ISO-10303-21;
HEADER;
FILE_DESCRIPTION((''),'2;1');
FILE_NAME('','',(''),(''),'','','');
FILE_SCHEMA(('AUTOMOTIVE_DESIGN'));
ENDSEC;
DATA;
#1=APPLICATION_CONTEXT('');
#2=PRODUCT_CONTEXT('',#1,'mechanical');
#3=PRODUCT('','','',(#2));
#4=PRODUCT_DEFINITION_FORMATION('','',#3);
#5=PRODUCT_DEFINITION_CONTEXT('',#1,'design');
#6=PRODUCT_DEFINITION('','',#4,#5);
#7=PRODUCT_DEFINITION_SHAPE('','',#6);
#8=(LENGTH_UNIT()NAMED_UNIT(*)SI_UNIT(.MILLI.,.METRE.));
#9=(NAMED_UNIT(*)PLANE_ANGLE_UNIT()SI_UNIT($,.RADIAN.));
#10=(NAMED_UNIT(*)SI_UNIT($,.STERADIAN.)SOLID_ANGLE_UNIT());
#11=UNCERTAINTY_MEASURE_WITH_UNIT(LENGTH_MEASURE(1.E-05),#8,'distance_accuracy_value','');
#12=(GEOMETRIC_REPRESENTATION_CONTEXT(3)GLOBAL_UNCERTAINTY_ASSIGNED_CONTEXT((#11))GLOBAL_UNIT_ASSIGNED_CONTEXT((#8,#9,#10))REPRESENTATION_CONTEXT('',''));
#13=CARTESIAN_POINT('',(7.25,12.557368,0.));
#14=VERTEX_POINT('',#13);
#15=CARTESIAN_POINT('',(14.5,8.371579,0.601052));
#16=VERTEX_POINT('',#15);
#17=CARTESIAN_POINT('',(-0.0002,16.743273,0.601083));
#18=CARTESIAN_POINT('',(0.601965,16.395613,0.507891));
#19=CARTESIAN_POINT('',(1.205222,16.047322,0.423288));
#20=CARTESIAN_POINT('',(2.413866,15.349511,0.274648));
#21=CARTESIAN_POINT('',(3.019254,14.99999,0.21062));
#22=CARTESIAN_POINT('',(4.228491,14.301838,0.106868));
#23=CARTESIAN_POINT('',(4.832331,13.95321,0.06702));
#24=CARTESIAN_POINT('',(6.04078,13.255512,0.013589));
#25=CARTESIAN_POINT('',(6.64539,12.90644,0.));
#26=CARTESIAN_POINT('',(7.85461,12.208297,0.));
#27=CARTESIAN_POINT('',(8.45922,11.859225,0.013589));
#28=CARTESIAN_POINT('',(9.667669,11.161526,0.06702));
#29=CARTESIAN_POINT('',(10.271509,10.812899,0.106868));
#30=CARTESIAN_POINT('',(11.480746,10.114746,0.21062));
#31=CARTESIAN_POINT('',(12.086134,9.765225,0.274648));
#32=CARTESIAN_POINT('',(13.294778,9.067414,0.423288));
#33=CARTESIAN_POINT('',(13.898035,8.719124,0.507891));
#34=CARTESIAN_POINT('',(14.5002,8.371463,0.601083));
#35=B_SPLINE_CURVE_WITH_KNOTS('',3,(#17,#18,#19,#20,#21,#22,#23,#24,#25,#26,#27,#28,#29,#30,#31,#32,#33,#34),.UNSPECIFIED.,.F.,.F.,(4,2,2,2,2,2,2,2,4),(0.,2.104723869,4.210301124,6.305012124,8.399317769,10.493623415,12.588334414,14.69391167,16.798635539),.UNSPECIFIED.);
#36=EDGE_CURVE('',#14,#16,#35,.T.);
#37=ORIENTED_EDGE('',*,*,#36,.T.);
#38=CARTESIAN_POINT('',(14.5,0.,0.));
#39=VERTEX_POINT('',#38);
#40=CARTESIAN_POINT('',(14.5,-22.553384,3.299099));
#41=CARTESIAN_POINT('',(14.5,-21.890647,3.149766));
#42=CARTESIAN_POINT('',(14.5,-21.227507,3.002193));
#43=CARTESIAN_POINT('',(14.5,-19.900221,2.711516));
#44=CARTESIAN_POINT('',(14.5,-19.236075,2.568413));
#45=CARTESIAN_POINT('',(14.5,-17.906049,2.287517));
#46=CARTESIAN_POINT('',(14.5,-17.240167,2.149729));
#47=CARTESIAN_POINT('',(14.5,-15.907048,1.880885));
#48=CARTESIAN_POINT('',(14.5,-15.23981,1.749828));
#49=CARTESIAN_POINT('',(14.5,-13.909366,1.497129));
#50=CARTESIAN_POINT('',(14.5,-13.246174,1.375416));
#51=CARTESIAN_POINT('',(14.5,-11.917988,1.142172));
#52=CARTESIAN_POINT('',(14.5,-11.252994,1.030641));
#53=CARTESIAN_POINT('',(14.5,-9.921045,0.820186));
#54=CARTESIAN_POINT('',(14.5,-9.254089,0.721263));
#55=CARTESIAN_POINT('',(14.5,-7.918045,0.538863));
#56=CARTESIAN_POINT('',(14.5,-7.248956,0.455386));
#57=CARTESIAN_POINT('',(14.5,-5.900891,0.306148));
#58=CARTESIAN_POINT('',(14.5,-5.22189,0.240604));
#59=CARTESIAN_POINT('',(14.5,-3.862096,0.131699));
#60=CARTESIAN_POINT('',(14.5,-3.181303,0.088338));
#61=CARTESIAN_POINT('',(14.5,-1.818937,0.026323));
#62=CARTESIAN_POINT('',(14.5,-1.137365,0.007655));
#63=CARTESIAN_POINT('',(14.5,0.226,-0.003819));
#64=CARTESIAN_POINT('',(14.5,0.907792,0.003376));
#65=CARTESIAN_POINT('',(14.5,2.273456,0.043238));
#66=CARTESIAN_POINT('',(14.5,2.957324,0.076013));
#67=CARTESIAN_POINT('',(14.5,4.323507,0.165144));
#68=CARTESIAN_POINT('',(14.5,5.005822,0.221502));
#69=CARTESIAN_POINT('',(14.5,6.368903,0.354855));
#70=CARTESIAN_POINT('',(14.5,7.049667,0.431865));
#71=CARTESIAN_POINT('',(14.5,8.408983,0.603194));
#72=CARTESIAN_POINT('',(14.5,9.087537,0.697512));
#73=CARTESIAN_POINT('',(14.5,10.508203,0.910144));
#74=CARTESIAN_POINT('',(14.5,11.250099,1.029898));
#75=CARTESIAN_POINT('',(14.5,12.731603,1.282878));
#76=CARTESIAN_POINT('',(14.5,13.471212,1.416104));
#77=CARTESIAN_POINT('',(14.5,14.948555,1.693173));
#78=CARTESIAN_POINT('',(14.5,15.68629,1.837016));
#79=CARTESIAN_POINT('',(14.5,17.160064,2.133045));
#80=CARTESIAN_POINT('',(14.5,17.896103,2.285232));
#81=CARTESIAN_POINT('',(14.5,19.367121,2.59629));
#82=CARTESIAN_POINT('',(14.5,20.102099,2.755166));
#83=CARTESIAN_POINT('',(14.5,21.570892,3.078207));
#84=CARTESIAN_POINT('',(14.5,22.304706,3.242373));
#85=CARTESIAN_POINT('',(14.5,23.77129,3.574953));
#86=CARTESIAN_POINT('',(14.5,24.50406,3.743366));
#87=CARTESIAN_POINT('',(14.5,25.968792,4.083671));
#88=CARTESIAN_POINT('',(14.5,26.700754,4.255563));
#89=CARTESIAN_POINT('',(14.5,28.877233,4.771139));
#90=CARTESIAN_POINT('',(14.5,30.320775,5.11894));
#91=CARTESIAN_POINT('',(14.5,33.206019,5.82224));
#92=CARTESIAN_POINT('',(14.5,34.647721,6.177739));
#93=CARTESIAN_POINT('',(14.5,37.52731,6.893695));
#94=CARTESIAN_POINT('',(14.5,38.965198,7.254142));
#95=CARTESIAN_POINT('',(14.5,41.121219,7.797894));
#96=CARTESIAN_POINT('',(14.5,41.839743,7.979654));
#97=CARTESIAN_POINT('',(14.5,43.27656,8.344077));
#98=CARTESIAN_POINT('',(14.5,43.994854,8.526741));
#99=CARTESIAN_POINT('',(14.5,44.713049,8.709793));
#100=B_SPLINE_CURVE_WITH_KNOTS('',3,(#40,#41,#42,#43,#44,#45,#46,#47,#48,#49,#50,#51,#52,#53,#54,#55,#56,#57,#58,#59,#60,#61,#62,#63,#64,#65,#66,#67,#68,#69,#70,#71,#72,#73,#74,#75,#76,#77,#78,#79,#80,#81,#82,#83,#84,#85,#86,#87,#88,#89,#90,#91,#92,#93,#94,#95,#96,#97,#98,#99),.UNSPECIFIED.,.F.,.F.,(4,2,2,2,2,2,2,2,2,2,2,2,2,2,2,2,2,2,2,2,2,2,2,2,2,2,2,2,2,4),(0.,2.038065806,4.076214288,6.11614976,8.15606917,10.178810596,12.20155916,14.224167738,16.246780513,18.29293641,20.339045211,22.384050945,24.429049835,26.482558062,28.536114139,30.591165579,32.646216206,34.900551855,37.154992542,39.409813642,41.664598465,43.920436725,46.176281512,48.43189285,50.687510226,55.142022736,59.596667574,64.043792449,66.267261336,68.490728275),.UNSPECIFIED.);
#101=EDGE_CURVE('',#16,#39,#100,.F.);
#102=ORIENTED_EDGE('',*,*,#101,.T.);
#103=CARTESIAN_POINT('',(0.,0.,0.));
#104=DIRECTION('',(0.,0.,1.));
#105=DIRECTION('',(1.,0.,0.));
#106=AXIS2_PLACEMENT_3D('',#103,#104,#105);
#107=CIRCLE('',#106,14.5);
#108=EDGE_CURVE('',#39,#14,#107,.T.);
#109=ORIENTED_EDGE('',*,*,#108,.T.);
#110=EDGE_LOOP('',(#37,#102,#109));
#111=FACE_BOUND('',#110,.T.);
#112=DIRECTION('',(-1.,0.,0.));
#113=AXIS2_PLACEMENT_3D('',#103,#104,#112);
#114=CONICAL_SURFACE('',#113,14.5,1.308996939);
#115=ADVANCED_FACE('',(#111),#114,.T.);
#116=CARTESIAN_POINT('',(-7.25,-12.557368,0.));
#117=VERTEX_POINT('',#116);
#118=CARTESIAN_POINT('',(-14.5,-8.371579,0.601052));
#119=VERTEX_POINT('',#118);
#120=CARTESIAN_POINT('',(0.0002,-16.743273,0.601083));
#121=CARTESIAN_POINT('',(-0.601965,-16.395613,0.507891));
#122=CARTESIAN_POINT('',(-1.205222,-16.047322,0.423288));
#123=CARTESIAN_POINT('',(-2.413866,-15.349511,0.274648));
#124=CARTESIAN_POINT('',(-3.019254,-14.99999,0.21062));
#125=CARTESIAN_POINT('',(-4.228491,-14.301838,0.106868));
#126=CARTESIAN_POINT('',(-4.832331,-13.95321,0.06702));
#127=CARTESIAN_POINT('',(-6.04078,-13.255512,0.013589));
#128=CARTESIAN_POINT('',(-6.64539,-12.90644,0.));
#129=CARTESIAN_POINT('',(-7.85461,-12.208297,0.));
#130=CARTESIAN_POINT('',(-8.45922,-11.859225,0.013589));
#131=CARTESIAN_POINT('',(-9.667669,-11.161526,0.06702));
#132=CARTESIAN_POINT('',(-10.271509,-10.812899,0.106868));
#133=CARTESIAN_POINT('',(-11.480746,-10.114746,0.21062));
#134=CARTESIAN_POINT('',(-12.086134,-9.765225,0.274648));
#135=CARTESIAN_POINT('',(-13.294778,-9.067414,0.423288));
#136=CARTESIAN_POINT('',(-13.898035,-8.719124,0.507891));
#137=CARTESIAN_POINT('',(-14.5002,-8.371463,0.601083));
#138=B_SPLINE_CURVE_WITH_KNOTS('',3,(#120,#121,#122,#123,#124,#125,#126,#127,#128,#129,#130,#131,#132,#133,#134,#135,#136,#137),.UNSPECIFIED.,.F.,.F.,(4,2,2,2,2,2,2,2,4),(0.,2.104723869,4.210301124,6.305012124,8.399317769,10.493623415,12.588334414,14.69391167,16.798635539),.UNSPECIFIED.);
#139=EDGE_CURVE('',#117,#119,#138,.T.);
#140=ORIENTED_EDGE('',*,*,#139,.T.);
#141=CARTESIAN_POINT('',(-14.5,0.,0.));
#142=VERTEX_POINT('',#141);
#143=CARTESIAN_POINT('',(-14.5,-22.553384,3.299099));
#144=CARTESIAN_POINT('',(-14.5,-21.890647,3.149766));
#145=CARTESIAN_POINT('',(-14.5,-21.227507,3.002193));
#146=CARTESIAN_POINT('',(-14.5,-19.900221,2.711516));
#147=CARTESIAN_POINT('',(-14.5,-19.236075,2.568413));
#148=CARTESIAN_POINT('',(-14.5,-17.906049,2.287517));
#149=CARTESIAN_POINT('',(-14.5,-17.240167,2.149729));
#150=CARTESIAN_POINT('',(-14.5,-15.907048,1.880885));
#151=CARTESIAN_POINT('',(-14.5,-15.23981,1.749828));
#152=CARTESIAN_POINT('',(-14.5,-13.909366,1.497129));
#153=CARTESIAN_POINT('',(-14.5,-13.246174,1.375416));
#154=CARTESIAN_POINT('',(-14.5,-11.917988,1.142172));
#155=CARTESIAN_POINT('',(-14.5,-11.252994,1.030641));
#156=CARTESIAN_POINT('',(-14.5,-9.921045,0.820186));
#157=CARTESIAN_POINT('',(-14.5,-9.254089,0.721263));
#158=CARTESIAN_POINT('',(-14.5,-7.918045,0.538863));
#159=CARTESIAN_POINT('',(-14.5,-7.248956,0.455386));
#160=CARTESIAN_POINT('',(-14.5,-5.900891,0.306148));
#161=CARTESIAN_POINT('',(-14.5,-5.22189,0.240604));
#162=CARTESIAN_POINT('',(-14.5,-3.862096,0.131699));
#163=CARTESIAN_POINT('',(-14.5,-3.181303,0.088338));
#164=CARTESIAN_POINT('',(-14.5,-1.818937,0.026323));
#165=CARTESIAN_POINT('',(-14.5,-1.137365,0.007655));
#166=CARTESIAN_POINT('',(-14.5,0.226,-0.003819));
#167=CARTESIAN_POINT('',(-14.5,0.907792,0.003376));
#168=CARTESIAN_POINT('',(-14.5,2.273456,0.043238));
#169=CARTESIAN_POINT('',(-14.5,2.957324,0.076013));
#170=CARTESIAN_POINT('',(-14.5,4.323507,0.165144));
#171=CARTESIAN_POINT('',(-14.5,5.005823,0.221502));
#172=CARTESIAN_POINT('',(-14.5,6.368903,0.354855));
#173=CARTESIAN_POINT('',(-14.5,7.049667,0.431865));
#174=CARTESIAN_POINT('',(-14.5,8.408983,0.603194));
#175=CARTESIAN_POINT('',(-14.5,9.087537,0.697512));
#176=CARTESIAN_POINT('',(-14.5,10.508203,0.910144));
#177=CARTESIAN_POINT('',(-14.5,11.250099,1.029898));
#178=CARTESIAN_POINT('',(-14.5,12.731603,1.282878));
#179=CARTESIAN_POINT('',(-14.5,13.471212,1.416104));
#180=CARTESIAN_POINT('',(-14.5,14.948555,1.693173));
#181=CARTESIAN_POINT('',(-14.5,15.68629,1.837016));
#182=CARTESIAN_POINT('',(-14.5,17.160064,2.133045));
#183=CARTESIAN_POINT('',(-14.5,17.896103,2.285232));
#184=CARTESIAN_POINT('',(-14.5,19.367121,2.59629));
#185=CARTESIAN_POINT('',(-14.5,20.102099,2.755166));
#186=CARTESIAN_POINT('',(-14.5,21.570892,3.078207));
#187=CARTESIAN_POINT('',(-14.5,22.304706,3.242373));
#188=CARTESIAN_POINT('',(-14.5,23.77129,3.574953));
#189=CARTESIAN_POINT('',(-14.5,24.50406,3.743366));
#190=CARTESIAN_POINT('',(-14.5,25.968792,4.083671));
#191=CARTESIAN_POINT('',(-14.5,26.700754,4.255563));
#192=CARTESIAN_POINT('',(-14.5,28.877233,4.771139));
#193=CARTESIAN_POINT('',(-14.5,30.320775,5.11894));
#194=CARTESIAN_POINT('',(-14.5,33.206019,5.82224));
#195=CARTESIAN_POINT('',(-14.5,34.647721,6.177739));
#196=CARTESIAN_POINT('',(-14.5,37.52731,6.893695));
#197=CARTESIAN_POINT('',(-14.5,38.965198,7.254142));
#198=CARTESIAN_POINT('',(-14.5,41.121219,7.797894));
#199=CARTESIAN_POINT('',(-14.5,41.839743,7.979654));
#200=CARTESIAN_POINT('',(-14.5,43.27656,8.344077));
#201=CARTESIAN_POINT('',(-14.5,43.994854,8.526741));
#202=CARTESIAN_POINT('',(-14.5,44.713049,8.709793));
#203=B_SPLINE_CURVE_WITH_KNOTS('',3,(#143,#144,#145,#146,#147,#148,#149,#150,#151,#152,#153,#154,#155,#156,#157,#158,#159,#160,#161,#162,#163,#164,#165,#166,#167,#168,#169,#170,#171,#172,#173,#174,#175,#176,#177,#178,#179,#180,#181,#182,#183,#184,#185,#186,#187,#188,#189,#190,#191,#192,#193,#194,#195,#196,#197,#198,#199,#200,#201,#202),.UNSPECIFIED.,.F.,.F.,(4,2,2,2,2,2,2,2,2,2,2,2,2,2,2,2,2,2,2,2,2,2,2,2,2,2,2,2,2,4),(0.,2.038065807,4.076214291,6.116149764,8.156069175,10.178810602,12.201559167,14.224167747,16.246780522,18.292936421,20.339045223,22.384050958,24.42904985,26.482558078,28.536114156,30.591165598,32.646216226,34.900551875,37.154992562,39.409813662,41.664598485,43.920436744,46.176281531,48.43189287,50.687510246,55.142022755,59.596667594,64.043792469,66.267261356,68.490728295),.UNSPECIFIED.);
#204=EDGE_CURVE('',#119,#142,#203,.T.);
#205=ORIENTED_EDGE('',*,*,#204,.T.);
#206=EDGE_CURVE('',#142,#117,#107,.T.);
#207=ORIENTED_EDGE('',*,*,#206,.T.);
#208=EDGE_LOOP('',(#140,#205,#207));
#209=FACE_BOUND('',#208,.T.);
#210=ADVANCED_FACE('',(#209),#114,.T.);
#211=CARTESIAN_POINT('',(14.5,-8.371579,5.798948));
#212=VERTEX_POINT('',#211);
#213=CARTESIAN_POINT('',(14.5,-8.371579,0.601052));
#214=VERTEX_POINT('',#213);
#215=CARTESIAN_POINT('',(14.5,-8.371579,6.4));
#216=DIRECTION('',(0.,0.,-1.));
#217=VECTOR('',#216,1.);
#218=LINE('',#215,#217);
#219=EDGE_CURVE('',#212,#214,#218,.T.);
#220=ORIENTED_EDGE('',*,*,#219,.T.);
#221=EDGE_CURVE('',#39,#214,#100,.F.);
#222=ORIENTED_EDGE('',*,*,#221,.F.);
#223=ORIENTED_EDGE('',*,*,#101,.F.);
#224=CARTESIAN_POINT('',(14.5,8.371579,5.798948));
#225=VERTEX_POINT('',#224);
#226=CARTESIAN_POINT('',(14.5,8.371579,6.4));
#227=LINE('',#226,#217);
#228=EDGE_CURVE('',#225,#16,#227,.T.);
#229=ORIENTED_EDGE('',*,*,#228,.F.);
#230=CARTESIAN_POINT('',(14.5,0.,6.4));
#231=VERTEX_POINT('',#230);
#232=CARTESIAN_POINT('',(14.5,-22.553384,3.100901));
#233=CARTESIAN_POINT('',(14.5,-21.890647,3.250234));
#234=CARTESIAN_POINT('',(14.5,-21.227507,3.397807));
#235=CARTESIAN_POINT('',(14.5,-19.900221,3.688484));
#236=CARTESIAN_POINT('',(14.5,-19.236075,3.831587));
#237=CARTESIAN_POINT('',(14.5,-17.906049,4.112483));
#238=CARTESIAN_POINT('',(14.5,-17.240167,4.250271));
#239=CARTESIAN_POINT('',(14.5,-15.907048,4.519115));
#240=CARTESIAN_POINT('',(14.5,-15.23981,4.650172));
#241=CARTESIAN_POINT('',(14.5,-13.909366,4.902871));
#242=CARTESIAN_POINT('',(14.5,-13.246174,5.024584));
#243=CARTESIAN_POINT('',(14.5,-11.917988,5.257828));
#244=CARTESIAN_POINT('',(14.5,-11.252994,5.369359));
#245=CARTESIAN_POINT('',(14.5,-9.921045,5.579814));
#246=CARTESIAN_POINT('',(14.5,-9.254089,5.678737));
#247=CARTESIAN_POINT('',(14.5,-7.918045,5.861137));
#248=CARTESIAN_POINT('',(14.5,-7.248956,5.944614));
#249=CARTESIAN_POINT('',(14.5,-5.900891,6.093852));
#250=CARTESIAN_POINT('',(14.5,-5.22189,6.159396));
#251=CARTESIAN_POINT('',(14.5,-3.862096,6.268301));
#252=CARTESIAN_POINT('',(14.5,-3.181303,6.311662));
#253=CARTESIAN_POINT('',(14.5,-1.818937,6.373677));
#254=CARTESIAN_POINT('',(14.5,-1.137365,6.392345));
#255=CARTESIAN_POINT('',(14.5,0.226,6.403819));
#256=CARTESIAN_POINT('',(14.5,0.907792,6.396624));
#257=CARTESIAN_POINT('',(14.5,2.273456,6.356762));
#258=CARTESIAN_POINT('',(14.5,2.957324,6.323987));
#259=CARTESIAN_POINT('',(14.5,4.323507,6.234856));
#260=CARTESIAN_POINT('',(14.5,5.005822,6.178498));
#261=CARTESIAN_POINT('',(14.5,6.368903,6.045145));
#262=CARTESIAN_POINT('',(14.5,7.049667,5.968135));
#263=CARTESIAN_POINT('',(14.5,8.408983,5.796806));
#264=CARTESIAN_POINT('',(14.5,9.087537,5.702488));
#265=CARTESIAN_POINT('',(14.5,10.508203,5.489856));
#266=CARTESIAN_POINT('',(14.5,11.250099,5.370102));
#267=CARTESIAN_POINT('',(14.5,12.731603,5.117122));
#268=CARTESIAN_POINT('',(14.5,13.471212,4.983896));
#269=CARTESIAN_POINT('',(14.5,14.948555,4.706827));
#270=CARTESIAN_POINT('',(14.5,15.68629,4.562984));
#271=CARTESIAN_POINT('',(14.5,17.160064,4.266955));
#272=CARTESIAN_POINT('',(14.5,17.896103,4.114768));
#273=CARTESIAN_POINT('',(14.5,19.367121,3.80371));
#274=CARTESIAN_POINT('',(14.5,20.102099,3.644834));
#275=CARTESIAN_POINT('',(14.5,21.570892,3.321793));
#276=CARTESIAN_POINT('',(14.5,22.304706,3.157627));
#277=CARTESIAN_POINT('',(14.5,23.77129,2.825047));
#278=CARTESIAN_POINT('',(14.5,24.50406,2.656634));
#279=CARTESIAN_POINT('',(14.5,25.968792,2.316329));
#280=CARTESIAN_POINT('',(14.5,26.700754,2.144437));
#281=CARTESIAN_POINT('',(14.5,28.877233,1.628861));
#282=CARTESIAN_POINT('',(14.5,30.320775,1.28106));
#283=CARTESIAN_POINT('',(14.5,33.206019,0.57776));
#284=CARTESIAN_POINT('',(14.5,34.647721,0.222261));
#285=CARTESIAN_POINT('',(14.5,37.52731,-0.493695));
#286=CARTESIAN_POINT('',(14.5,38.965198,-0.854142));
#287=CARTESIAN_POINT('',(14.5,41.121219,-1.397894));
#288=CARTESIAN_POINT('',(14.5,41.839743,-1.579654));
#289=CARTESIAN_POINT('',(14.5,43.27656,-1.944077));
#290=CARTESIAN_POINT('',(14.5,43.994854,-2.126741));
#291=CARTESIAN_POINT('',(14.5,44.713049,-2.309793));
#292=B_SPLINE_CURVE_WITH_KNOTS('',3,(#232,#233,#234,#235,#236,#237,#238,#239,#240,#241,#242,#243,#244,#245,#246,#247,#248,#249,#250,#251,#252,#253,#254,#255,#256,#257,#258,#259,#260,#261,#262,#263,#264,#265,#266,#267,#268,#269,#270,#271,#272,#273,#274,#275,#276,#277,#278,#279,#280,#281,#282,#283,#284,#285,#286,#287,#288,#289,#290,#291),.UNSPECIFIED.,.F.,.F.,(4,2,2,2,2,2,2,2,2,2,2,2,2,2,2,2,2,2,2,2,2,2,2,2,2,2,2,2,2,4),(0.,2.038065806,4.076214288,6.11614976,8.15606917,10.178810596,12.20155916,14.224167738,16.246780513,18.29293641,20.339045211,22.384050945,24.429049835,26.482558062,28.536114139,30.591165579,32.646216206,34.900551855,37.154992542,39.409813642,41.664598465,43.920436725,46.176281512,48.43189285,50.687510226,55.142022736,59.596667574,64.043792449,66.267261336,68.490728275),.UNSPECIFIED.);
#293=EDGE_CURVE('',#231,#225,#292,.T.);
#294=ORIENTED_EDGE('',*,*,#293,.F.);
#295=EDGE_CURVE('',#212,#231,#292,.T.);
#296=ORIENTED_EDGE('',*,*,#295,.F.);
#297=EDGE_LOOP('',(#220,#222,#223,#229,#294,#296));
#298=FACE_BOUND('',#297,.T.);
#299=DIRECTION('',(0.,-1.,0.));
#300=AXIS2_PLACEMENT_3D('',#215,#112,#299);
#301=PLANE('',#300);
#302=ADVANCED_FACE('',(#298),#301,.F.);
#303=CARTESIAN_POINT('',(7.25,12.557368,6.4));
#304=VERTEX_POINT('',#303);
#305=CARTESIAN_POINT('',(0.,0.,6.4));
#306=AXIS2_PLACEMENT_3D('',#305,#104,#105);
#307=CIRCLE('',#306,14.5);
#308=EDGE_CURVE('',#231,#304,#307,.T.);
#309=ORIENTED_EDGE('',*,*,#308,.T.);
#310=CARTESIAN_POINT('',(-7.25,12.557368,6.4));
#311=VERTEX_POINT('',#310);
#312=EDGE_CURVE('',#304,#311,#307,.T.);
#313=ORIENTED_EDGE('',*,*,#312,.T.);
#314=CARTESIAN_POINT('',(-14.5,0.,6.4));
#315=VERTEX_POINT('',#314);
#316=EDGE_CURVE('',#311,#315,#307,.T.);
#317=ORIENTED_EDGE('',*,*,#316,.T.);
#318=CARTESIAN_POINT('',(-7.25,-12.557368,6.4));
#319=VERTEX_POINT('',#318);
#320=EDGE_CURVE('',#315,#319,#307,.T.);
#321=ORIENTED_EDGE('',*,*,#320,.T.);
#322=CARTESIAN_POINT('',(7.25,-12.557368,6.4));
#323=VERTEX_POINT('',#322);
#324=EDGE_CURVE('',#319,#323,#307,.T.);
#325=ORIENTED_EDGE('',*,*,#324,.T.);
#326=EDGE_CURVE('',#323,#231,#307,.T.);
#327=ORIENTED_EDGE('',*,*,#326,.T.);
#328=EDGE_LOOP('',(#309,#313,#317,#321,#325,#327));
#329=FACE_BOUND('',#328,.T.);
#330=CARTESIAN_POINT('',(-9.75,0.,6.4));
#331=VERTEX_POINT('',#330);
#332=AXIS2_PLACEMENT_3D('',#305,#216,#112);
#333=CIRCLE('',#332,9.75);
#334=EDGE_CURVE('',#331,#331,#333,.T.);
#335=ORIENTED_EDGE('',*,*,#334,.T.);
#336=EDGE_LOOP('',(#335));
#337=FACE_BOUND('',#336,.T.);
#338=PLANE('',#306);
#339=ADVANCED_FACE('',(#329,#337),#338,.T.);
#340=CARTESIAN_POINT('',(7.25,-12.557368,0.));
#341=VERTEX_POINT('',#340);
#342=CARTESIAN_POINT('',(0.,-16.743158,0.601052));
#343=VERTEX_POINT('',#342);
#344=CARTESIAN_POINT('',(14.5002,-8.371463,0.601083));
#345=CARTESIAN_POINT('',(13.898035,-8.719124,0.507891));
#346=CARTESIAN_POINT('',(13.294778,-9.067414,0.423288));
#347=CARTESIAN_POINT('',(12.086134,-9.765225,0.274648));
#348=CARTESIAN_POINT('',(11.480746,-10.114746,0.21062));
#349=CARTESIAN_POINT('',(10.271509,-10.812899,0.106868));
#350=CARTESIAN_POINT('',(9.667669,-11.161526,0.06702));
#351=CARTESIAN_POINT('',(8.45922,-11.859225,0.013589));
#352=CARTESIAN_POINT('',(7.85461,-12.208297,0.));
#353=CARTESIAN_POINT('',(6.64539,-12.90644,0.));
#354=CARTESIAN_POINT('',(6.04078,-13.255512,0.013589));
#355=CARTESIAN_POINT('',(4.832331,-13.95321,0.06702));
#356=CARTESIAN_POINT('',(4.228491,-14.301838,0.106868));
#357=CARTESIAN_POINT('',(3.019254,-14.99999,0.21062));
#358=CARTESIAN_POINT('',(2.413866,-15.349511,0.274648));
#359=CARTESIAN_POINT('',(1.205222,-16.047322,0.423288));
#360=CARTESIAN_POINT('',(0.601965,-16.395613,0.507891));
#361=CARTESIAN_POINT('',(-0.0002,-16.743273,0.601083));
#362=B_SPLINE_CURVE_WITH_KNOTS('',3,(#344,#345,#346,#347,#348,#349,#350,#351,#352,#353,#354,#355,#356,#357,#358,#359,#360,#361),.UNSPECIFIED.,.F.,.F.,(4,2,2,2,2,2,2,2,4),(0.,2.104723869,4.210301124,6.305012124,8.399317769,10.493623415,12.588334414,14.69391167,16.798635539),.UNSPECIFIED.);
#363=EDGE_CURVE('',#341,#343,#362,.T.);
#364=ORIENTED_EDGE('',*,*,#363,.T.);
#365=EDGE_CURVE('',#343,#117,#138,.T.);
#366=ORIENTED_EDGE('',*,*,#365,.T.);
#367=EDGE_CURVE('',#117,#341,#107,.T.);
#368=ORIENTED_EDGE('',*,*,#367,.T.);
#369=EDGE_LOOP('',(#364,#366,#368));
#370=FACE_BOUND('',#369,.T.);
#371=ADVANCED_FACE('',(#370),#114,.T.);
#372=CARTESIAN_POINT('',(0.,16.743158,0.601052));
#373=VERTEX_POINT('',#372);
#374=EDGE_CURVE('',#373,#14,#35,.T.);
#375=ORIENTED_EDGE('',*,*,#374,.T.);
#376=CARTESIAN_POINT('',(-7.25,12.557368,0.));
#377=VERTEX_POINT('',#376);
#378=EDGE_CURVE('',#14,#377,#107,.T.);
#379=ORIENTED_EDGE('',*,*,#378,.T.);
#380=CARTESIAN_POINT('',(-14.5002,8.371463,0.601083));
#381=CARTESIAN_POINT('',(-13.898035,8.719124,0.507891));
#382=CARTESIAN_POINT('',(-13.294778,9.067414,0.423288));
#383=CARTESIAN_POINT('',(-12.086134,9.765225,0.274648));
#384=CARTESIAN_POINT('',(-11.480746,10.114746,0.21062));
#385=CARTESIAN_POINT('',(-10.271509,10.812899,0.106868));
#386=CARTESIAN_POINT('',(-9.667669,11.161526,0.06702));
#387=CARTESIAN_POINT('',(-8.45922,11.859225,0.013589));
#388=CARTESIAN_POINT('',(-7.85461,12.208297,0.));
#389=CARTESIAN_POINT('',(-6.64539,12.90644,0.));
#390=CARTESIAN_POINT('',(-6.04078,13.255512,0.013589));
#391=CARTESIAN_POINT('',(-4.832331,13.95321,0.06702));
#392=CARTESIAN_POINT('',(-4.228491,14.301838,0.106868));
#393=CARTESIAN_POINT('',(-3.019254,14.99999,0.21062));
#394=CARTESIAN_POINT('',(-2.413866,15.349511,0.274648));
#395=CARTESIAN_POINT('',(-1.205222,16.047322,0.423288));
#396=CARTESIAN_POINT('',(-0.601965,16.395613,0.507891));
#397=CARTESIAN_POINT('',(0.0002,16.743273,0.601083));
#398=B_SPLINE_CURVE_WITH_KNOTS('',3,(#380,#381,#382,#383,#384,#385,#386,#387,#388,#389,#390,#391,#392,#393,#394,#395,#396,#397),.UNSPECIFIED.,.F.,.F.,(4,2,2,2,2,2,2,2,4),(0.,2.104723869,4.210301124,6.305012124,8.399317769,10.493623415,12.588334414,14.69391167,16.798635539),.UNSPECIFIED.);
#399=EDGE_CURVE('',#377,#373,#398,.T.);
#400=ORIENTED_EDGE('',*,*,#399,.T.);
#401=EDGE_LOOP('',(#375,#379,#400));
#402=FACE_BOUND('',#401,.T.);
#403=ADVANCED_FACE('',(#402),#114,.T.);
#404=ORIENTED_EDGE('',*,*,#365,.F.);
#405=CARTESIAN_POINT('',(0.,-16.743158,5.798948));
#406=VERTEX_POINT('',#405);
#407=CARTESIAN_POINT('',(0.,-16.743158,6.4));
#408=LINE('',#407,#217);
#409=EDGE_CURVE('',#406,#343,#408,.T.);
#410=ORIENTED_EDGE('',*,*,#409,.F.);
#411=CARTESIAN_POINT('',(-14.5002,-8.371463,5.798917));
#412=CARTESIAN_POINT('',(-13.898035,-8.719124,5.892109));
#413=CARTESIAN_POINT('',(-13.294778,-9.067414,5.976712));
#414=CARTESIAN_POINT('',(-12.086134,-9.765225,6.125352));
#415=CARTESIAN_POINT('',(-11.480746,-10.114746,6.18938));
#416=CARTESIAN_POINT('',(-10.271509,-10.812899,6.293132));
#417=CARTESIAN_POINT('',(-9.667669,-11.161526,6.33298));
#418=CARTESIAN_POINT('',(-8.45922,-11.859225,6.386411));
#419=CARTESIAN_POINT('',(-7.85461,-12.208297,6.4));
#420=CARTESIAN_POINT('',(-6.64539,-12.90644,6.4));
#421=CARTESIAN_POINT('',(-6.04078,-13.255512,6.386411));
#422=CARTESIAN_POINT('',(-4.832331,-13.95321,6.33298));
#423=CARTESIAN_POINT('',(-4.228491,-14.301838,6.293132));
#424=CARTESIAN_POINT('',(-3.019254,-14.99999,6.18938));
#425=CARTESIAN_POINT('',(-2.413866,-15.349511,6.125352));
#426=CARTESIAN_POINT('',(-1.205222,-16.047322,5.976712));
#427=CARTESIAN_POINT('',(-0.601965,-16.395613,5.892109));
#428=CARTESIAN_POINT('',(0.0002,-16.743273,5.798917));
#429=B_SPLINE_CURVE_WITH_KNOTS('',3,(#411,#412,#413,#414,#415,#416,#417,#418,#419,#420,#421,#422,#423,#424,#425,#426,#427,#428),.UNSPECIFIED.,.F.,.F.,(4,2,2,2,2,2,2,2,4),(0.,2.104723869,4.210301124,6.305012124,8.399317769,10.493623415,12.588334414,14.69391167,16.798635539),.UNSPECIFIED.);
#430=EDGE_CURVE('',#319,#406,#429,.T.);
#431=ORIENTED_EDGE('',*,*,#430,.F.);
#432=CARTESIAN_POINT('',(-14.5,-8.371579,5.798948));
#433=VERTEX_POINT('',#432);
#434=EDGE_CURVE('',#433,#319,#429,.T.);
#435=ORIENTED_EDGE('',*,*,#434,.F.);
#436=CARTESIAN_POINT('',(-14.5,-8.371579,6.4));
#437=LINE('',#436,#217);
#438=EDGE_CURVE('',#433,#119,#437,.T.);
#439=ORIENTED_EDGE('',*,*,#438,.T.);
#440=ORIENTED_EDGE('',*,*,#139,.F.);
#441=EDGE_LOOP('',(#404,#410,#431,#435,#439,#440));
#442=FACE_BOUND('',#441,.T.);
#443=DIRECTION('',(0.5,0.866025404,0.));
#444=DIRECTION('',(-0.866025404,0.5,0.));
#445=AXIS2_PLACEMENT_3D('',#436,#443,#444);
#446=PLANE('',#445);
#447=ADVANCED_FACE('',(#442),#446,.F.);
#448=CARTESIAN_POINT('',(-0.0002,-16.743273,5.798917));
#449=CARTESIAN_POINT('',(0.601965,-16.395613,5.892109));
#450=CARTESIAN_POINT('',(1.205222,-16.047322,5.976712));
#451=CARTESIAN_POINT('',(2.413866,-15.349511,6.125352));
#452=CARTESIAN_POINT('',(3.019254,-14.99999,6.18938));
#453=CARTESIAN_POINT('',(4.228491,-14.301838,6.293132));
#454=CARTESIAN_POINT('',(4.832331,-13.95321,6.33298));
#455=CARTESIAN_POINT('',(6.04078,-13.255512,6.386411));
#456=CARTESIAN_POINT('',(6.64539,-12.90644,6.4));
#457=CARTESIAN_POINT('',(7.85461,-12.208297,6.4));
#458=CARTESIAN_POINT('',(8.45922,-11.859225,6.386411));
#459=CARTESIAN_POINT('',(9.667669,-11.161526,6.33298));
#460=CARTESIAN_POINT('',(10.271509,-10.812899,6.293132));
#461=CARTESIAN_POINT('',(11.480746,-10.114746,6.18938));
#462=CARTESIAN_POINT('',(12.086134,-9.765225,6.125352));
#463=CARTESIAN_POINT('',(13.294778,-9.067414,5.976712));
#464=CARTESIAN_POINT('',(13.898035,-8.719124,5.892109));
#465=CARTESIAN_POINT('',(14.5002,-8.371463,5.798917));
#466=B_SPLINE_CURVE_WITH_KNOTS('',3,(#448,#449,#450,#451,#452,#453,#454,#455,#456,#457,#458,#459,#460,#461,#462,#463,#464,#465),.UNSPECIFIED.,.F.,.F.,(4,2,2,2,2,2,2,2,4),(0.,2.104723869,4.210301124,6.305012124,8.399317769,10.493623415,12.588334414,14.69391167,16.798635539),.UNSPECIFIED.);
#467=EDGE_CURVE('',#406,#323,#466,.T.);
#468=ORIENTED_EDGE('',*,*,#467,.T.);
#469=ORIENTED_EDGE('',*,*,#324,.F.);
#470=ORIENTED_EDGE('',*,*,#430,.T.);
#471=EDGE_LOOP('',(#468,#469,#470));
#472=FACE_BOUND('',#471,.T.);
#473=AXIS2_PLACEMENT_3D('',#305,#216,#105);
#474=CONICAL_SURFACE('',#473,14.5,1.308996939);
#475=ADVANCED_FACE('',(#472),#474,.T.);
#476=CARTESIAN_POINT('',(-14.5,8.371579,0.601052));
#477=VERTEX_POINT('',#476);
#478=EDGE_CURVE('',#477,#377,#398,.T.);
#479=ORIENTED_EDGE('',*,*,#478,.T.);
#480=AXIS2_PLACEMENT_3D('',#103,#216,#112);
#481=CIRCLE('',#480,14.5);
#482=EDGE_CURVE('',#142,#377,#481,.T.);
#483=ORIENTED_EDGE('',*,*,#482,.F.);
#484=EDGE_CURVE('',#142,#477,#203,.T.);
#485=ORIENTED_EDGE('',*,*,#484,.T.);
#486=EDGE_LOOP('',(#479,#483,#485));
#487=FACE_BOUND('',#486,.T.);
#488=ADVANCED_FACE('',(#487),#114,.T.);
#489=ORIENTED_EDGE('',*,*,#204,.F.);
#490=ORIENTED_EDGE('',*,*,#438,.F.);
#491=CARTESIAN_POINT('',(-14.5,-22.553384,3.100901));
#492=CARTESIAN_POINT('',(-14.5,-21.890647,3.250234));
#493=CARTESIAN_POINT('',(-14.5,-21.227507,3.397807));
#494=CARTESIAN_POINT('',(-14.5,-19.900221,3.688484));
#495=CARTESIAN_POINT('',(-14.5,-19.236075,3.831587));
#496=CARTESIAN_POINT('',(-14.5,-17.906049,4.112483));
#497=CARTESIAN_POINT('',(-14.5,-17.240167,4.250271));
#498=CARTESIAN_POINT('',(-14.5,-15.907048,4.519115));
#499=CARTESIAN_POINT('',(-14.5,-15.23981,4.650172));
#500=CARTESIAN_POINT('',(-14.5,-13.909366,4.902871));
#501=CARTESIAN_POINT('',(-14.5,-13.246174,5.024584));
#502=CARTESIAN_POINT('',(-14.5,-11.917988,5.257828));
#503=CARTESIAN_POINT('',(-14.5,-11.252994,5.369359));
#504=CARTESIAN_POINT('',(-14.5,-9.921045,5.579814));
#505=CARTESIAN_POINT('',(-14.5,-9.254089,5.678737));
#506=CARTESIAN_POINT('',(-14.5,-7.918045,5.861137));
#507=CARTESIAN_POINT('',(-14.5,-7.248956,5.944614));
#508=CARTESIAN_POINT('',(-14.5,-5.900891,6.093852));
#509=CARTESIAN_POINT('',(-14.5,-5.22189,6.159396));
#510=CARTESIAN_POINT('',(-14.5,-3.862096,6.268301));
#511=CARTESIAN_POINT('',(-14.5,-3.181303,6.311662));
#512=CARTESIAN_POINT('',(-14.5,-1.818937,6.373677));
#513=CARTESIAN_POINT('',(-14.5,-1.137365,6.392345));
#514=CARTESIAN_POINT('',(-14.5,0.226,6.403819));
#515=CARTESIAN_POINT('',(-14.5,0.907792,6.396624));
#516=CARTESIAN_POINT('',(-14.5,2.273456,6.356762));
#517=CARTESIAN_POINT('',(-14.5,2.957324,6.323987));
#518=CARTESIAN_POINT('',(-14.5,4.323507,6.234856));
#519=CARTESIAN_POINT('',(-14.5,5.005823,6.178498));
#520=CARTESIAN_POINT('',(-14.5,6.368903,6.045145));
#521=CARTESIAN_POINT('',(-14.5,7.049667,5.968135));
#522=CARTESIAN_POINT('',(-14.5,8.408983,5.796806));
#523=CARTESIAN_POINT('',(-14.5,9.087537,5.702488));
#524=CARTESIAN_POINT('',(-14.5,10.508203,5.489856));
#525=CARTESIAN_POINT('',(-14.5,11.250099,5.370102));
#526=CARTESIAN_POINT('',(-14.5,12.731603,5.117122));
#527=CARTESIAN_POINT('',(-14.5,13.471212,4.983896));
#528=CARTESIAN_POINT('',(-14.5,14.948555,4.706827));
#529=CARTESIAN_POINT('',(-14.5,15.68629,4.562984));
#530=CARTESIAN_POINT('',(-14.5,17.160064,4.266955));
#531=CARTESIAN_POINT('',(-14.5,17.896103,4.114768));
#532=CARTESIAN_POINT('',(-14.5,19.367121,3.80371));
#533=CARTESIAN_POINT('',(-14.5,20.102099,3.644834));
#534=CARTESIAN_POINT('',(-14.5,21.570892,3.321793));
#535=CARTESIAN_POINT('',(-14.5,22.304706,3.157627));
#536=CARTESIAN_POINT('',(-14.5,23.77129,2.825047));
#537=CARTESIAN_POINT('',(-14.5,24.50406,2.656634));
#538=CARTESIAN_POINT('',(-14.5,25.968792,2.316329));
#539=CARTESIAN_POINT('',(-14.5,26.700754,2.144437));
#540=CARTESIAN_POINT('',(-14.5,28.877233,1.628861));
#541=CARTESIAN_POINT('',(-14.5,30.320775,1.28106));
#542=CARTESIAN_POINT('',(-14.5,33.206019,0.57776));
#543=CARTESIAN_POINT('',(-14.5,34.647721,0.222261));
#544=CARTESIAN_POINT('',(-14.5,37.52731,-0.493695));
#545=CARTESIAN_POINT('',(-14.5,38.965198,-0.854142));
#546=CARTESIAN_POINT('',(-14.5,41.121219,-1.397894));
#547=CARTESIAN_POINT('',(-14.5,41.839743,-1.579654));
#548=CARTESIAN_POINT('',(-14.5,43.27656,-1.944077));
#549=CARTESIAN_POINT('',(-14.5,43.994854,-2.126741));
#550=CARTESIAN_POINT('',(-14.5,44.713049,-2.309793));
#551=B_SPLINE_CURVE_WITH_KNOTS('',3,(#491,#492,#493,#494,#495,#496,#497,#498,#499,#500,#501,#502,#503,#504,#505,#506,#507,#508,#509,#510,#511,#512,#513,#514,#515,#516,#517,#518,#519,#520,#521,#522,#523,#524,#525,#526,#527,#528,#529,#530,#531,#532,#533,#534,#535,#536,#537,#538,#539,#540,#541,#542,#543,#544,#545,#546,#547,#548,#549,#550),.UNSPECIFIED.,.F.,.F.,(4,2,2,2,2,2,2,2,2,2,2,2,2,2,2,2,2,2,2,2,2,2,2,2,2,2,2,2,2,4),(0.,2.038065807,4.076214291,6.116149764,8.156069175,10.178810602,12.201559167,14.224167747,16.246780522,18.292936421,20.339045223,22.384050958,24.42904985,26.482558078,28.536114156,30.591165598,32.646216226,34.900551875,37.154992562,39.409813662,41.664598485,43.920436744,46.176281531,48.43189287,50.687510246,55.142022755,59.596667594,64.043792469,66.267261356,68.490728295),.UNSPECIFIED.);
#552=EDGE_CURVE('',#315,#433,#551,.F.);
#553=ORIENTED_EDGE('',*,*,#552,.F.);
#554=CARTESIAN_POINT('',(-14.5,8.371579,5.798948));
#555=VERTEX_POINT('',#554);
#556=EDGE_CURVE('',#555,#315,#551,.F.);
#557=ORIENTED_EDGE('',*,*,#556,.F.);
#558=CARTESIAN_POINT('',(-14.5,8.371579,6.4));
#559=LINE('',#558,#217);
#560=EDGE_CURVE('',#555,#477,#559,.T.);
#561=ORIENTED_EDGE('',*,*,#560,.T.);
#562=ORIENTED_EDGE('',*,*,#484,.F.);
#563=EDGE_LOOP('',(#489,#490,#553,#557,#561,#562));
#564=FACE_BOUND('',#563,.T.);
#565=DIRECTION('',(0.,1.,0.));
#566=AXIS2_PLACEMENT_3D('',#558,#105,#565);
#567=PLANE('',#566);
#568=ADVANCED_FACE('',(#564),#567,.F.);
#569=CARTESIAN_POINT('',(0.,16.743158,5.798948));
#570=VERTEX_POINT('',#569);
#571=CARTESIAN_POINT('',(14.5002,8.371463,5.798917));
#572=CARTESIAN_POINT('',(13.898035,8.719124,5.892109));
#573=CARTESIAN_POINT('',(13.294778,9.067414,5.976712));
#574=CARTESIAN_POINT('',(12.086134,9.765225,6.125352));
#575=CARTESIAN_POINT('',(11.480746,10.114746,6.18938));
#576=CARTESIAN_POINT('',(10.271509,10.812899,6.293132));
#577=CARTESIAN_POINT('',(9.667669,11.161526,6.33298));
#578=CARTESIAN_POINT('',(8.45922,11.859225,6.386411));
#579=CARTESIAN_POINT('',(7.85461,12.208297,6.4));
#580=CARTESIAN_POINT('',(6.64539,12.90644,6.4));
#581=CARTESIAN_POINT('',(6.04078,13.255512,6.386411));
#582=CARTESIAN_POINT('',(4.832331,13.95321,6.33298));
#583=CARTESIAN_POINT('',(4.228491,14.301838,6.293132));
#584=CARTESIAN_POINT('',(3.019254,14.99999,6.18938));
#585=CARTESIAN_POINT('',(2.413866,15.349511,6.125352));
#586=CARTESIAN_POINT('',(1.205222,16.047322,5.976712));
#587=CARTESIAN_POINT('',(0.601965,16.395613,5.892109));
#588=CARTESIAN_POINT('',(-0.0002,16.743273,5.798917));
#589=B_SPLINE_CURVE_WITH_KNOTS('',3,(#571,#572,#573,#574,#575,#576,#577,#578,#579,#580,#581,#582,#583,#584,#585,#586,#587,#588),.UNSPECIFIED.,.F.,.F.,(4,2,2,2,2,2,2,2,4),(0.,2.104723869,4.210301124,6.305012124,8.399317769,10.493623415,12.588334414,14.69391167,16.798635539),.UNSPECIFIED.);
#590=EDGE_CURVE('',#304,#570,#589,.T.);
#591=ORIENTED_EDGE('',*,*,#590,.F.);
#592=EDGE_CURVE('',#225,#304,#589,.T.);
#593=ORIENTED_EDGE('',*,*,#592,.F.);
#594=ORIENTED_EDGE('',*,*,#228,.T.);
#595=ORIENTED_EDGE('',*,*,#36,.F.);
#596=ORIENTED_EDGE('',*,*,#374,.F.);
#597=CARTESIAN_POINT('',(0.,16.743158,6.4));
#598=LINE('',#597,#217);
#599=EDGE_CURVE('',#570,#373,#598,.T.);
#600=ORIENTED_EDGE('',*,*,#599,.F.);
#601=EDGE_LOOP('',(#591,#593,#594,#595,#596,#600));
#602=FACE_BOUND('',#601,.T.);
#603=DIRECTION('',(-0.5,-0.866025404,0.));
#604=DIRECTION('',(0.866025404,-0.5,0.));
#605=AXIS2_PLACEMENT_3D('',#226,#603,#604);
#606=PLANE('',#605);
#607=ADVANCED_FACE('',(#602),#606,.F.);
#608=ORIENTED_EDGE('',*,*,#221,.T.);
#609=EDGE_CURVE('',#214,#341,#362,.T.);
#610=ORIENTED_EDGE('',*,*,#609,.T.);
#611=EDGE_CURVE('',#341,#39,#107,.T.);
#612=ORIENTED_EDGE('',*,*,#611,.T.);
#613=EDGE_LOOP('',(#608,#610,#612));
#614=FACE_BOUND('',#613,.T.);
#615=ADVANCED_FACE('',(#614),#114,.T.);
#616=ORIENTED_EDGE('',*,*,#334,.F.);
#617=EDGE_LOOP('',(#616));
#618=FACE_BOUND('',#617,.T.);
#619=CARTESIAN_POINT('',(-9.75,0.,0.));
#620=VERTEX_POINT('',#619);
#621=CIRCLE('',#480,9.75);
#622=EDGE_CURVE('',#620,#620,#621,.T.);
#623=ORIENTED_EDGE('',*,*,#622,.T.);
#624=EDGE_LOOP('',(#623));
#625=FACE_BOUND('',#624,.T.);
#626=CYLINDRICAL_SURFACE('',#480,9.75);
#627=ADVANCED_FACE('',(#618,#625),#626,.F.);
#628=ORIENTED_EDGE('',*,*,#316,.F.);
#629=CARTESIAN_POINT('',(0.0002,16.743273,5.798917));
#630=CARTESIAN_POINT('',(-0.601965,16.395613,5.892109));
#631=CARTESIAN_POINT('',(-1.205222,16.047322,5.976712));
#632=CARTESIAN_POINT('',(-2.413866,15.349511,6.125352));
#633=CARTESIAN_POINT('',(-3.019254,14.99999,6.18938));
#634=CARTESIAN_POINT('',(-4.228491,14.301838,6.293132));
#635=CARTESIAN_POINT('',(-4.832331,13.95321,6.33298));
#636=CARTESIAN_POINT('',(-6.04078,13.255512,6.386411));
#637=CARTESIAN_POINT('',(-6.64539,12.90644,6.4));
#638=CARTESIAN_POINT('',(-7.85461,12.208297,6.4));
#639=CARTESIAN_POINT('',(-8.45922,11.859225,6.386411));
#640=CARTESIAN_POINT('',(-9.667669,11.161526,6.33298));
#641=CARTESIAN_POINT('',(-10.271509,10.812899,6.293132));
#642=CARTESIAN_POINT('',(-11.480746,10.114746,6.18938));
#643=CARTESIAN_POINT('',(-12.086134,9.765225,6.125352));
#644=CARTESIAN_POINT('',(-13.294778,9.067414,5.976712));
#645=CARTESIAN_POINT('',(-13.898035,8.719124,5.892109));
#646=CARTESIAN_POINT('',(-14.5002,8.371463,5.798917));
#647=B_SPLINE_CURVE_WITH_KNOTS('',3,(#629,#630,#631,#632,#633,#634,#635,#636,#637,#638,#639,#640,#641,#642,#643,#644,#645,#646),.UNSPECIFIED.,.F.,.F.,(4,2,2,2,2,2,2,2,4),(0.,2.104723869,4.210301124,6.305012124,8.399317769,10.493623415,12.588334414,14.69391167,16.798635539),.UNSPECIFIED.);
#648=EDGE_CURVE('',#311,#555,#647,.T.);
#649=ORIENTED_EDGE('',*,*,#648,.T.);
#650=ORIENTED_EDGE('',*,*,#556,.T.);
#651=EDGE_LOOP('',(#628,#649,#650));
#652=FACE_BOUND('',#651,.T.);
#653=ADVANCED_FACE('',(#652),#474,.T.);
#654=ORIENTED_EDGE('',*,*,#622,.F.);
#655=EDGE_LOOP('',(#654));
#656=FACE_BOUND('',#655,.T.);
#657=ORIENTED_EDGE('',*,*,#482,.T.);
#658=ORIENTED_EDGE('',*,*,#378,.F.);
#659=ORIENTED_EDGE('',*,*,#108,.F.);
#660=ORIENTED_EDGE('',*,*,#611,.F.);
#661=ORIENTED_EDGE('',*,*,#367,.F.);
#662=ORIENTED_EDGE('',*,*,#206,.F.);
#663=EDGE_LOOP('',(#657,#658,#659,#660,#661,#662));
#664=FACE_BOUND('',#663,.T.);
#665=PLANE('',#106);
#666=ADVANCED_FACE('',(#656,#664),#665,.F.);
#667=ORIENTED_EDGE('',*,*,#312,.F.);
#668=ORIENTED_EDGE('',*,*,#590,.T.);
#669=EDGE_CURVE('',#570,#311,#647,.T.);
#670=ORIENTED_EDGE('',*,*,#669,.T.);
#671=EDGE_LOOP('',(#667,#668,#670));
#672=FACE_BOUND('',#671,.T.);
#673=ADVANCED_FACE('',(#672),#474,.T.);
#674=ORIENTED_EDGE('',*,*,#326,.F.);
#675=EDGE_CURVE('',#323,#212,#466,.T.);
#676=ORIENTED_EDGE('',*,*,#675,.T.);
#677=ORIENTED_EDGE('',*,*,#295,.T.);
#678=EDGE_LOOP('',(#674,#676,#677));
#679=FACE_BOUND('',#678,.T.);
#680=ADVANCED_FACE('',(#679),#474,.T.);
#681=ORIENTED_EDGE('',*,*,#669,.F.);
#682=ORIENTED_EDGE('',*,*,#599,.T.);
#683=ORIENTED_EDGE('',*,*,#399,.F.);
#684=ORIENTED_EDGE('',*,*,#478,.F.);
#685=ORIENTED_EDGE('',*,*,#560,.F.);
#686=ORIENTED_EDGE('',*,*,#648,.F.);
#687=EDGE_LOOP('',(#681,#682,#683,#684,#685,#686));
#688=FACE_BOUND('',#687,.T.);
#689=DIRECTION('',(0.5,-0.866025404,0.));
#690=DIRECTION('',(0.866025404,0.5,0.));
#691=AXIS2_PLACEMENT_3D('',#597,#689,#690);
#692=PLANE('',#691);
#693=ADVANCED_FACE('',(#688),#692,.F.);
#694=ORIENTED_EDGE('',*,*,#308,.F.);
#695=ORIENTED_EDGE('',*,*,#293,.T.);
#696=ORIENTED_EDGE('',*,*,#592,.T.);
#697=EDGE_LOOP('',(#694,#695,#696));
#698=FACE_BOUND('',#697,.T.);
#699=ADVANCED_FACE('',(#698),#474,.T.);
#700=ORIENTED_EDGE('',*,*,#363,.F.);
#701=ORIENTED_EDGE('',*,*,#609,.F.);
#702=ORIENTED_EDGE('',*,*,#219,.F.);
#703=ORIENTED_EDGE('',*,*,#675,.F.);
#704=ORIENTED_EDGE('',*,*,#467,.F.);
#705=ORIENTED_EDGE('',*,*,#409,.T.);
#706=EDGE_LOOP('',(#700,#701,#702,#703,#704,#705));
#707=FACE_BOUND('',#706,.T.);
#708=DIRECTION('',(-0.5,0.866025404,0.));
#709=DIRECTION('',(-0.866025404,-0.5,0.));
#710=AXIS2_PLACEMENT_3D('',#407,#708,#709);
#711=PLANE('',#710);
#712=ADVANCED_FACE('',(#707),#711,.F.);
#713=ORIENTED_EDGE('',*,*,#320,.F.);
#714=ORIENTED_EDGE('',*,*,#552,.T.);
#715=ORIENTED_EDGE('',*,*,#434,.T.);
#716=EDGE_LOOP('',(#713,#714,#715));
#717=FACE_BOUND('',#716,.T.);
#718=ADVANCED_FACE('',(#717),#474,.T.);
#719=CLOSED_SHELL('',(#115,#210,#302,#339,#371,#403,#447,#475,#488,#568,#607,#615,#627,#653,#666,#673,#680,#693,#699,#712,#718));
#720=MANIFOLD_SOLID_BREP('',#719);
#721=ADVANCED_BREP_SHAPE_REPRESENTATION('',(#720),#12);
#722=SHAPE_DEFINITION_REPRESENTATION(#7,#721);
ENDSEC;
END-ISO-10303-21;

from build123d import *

# Parameters (mm, degrees)
RESSALTO_EXTRUS_O1_DEPTH                 = 6.4
ESBO_O2_OUTSIDE_W                        = 151.914
ESBO_O2_OUTSIDE_H                        = 156.4
ESBO_O2_OUTSIDE_R                        = 14.5
CORTE_EXTRUS_O1_DEPTH                    = 15
CORTE_EXTRUS_O1_DRAFT                    = -75
ESBO_O3_OUTSIDE_W                        = 151.914
ESBO_O3_OUTSIDE_H                        = 156.4
ESBO_O3_OUTSIDE_R                        = 14.5
CORTE_EXTRUS_O2_DEPTH                    = 15
CORTE_EXTRUS_O2_DRAFT                    = -75
BROCA_DE_ROSQUEAR_PARA_TARRAXA_DE_M221_D = 19.5


with BuildPart() as part:
    # Esboço1 → Ressalto-extrusão1 (new body)
    with BuildSketch(Plane.XY):
        Polygon((0, 16.743157806), (-14.5, 8.371578903), (-14.5, -8.371578903), (0, -16.743157806), (14.5, -8.371578903), (14.5, 8.371578903), align=None)
    extrude(amount=RESSALTO_EXTRUS_O1_DEPTH)


with BuildPart() as corte_extrus_o1_tool:
    # Esboço2 outside → Corte-extrusão1 (with draft: the straight prism first)
    with BuildSketch(Plane.XY.offset(6.4)):
        Rectangle(ESBO_O2_OUTSIDE_W, ESBO_O2_OUTSIDE_H)
        Circle(ESBO_O2_OUTSIDE_R, mode=Mode.SUBTRACT)
    extrude(amount=-CORTE_EXTRUS_O1_DEPTH)
    # Corte-extrusão1: the draft: its side faces are tilted about the plane it starts from
    corte_extrus_o1_sides = [corte_extrus_o1_tool.faces().sort_by_distance(p)[0] for p in [
        (0, -78.2, -1.1),
        (75.957, 0, -1.1),
        (0, 78.2, -1.1),
        (-75.957, 0, -1.1),
        (-14.5, 0, -1.1),
    ]]
    draft(corte_extrus_o1_sides, Plane.XY.offset(6.4), CORTE_EXTRUS_O1_DRAFT)


with BuildPart() as part_1:
    add(part.part)

    # Corte-extrusão1: cut by corte_extrus_o1_tool
    add(corte_extrus_o1_tool.part, mode=Mode.SUBTRACT)


with BuildPart() as corte_extrus_o2_tool:
    # Esboço3 outside → Corte-extrusão2 (with draft: the straight prism first)
    with BuildSketch(Plane(origin=(0, 0, 0), x_dir=(-1, 0, 0), z_dir=(0, 0, -1))):
        Rectangle(ESBO_O3_OUTSIDE_W, ESBO_O3_OUTSIDE_H)
        Circle(ESBO_O3_OUTSIDE_R, mode=Mode.SUBTRACT)
    extrude(amount=-CORTE_EXTRUS_O2_DEPTH)
    # Corte-extrusão2: the draft: its side faces are tilted about the plane it starts from
    corte_extrus_o2_sides = [corte_extrus_o2_tool.faces().sort_by_distance(p)[0] for p in [
        (0, -78.2, 7.5),
        (-75.957, 0, 7.5),
        (0, 78.2, 7.5),
        (75.957, 0, 7.5),
        (14.5, 0, 7.5),
    ]]
    draft(corte_extrus_o2_sides, Plane(origin=(0, 0, 0), x_dir=(-1, 0, 0), z_dir=(0, 0, -1)), CORTE_EXTRUS_O2_DRAFT)


with BuildPart() as part_2:
    add(part_1.part)

    # Corte-extrusão2: cut by corte_extrus_o2_tool
    add(corte_extrus_o2_tool.part, mode=Mode.SUBTRACT)

    # Broca de rosquear para tarraxa de M221 (through all)
    with Locations(Plane(origin=(0, 0, 0), x_dir=(-1, 0, 0), z_dir=(0, 0, -1))):
        with Locations((0, 0)):
            Hole(BROCA_DE_ROSQUEAR_PARA_TARRAXA_DE_M221_D / 2)


solid = part_2.part
